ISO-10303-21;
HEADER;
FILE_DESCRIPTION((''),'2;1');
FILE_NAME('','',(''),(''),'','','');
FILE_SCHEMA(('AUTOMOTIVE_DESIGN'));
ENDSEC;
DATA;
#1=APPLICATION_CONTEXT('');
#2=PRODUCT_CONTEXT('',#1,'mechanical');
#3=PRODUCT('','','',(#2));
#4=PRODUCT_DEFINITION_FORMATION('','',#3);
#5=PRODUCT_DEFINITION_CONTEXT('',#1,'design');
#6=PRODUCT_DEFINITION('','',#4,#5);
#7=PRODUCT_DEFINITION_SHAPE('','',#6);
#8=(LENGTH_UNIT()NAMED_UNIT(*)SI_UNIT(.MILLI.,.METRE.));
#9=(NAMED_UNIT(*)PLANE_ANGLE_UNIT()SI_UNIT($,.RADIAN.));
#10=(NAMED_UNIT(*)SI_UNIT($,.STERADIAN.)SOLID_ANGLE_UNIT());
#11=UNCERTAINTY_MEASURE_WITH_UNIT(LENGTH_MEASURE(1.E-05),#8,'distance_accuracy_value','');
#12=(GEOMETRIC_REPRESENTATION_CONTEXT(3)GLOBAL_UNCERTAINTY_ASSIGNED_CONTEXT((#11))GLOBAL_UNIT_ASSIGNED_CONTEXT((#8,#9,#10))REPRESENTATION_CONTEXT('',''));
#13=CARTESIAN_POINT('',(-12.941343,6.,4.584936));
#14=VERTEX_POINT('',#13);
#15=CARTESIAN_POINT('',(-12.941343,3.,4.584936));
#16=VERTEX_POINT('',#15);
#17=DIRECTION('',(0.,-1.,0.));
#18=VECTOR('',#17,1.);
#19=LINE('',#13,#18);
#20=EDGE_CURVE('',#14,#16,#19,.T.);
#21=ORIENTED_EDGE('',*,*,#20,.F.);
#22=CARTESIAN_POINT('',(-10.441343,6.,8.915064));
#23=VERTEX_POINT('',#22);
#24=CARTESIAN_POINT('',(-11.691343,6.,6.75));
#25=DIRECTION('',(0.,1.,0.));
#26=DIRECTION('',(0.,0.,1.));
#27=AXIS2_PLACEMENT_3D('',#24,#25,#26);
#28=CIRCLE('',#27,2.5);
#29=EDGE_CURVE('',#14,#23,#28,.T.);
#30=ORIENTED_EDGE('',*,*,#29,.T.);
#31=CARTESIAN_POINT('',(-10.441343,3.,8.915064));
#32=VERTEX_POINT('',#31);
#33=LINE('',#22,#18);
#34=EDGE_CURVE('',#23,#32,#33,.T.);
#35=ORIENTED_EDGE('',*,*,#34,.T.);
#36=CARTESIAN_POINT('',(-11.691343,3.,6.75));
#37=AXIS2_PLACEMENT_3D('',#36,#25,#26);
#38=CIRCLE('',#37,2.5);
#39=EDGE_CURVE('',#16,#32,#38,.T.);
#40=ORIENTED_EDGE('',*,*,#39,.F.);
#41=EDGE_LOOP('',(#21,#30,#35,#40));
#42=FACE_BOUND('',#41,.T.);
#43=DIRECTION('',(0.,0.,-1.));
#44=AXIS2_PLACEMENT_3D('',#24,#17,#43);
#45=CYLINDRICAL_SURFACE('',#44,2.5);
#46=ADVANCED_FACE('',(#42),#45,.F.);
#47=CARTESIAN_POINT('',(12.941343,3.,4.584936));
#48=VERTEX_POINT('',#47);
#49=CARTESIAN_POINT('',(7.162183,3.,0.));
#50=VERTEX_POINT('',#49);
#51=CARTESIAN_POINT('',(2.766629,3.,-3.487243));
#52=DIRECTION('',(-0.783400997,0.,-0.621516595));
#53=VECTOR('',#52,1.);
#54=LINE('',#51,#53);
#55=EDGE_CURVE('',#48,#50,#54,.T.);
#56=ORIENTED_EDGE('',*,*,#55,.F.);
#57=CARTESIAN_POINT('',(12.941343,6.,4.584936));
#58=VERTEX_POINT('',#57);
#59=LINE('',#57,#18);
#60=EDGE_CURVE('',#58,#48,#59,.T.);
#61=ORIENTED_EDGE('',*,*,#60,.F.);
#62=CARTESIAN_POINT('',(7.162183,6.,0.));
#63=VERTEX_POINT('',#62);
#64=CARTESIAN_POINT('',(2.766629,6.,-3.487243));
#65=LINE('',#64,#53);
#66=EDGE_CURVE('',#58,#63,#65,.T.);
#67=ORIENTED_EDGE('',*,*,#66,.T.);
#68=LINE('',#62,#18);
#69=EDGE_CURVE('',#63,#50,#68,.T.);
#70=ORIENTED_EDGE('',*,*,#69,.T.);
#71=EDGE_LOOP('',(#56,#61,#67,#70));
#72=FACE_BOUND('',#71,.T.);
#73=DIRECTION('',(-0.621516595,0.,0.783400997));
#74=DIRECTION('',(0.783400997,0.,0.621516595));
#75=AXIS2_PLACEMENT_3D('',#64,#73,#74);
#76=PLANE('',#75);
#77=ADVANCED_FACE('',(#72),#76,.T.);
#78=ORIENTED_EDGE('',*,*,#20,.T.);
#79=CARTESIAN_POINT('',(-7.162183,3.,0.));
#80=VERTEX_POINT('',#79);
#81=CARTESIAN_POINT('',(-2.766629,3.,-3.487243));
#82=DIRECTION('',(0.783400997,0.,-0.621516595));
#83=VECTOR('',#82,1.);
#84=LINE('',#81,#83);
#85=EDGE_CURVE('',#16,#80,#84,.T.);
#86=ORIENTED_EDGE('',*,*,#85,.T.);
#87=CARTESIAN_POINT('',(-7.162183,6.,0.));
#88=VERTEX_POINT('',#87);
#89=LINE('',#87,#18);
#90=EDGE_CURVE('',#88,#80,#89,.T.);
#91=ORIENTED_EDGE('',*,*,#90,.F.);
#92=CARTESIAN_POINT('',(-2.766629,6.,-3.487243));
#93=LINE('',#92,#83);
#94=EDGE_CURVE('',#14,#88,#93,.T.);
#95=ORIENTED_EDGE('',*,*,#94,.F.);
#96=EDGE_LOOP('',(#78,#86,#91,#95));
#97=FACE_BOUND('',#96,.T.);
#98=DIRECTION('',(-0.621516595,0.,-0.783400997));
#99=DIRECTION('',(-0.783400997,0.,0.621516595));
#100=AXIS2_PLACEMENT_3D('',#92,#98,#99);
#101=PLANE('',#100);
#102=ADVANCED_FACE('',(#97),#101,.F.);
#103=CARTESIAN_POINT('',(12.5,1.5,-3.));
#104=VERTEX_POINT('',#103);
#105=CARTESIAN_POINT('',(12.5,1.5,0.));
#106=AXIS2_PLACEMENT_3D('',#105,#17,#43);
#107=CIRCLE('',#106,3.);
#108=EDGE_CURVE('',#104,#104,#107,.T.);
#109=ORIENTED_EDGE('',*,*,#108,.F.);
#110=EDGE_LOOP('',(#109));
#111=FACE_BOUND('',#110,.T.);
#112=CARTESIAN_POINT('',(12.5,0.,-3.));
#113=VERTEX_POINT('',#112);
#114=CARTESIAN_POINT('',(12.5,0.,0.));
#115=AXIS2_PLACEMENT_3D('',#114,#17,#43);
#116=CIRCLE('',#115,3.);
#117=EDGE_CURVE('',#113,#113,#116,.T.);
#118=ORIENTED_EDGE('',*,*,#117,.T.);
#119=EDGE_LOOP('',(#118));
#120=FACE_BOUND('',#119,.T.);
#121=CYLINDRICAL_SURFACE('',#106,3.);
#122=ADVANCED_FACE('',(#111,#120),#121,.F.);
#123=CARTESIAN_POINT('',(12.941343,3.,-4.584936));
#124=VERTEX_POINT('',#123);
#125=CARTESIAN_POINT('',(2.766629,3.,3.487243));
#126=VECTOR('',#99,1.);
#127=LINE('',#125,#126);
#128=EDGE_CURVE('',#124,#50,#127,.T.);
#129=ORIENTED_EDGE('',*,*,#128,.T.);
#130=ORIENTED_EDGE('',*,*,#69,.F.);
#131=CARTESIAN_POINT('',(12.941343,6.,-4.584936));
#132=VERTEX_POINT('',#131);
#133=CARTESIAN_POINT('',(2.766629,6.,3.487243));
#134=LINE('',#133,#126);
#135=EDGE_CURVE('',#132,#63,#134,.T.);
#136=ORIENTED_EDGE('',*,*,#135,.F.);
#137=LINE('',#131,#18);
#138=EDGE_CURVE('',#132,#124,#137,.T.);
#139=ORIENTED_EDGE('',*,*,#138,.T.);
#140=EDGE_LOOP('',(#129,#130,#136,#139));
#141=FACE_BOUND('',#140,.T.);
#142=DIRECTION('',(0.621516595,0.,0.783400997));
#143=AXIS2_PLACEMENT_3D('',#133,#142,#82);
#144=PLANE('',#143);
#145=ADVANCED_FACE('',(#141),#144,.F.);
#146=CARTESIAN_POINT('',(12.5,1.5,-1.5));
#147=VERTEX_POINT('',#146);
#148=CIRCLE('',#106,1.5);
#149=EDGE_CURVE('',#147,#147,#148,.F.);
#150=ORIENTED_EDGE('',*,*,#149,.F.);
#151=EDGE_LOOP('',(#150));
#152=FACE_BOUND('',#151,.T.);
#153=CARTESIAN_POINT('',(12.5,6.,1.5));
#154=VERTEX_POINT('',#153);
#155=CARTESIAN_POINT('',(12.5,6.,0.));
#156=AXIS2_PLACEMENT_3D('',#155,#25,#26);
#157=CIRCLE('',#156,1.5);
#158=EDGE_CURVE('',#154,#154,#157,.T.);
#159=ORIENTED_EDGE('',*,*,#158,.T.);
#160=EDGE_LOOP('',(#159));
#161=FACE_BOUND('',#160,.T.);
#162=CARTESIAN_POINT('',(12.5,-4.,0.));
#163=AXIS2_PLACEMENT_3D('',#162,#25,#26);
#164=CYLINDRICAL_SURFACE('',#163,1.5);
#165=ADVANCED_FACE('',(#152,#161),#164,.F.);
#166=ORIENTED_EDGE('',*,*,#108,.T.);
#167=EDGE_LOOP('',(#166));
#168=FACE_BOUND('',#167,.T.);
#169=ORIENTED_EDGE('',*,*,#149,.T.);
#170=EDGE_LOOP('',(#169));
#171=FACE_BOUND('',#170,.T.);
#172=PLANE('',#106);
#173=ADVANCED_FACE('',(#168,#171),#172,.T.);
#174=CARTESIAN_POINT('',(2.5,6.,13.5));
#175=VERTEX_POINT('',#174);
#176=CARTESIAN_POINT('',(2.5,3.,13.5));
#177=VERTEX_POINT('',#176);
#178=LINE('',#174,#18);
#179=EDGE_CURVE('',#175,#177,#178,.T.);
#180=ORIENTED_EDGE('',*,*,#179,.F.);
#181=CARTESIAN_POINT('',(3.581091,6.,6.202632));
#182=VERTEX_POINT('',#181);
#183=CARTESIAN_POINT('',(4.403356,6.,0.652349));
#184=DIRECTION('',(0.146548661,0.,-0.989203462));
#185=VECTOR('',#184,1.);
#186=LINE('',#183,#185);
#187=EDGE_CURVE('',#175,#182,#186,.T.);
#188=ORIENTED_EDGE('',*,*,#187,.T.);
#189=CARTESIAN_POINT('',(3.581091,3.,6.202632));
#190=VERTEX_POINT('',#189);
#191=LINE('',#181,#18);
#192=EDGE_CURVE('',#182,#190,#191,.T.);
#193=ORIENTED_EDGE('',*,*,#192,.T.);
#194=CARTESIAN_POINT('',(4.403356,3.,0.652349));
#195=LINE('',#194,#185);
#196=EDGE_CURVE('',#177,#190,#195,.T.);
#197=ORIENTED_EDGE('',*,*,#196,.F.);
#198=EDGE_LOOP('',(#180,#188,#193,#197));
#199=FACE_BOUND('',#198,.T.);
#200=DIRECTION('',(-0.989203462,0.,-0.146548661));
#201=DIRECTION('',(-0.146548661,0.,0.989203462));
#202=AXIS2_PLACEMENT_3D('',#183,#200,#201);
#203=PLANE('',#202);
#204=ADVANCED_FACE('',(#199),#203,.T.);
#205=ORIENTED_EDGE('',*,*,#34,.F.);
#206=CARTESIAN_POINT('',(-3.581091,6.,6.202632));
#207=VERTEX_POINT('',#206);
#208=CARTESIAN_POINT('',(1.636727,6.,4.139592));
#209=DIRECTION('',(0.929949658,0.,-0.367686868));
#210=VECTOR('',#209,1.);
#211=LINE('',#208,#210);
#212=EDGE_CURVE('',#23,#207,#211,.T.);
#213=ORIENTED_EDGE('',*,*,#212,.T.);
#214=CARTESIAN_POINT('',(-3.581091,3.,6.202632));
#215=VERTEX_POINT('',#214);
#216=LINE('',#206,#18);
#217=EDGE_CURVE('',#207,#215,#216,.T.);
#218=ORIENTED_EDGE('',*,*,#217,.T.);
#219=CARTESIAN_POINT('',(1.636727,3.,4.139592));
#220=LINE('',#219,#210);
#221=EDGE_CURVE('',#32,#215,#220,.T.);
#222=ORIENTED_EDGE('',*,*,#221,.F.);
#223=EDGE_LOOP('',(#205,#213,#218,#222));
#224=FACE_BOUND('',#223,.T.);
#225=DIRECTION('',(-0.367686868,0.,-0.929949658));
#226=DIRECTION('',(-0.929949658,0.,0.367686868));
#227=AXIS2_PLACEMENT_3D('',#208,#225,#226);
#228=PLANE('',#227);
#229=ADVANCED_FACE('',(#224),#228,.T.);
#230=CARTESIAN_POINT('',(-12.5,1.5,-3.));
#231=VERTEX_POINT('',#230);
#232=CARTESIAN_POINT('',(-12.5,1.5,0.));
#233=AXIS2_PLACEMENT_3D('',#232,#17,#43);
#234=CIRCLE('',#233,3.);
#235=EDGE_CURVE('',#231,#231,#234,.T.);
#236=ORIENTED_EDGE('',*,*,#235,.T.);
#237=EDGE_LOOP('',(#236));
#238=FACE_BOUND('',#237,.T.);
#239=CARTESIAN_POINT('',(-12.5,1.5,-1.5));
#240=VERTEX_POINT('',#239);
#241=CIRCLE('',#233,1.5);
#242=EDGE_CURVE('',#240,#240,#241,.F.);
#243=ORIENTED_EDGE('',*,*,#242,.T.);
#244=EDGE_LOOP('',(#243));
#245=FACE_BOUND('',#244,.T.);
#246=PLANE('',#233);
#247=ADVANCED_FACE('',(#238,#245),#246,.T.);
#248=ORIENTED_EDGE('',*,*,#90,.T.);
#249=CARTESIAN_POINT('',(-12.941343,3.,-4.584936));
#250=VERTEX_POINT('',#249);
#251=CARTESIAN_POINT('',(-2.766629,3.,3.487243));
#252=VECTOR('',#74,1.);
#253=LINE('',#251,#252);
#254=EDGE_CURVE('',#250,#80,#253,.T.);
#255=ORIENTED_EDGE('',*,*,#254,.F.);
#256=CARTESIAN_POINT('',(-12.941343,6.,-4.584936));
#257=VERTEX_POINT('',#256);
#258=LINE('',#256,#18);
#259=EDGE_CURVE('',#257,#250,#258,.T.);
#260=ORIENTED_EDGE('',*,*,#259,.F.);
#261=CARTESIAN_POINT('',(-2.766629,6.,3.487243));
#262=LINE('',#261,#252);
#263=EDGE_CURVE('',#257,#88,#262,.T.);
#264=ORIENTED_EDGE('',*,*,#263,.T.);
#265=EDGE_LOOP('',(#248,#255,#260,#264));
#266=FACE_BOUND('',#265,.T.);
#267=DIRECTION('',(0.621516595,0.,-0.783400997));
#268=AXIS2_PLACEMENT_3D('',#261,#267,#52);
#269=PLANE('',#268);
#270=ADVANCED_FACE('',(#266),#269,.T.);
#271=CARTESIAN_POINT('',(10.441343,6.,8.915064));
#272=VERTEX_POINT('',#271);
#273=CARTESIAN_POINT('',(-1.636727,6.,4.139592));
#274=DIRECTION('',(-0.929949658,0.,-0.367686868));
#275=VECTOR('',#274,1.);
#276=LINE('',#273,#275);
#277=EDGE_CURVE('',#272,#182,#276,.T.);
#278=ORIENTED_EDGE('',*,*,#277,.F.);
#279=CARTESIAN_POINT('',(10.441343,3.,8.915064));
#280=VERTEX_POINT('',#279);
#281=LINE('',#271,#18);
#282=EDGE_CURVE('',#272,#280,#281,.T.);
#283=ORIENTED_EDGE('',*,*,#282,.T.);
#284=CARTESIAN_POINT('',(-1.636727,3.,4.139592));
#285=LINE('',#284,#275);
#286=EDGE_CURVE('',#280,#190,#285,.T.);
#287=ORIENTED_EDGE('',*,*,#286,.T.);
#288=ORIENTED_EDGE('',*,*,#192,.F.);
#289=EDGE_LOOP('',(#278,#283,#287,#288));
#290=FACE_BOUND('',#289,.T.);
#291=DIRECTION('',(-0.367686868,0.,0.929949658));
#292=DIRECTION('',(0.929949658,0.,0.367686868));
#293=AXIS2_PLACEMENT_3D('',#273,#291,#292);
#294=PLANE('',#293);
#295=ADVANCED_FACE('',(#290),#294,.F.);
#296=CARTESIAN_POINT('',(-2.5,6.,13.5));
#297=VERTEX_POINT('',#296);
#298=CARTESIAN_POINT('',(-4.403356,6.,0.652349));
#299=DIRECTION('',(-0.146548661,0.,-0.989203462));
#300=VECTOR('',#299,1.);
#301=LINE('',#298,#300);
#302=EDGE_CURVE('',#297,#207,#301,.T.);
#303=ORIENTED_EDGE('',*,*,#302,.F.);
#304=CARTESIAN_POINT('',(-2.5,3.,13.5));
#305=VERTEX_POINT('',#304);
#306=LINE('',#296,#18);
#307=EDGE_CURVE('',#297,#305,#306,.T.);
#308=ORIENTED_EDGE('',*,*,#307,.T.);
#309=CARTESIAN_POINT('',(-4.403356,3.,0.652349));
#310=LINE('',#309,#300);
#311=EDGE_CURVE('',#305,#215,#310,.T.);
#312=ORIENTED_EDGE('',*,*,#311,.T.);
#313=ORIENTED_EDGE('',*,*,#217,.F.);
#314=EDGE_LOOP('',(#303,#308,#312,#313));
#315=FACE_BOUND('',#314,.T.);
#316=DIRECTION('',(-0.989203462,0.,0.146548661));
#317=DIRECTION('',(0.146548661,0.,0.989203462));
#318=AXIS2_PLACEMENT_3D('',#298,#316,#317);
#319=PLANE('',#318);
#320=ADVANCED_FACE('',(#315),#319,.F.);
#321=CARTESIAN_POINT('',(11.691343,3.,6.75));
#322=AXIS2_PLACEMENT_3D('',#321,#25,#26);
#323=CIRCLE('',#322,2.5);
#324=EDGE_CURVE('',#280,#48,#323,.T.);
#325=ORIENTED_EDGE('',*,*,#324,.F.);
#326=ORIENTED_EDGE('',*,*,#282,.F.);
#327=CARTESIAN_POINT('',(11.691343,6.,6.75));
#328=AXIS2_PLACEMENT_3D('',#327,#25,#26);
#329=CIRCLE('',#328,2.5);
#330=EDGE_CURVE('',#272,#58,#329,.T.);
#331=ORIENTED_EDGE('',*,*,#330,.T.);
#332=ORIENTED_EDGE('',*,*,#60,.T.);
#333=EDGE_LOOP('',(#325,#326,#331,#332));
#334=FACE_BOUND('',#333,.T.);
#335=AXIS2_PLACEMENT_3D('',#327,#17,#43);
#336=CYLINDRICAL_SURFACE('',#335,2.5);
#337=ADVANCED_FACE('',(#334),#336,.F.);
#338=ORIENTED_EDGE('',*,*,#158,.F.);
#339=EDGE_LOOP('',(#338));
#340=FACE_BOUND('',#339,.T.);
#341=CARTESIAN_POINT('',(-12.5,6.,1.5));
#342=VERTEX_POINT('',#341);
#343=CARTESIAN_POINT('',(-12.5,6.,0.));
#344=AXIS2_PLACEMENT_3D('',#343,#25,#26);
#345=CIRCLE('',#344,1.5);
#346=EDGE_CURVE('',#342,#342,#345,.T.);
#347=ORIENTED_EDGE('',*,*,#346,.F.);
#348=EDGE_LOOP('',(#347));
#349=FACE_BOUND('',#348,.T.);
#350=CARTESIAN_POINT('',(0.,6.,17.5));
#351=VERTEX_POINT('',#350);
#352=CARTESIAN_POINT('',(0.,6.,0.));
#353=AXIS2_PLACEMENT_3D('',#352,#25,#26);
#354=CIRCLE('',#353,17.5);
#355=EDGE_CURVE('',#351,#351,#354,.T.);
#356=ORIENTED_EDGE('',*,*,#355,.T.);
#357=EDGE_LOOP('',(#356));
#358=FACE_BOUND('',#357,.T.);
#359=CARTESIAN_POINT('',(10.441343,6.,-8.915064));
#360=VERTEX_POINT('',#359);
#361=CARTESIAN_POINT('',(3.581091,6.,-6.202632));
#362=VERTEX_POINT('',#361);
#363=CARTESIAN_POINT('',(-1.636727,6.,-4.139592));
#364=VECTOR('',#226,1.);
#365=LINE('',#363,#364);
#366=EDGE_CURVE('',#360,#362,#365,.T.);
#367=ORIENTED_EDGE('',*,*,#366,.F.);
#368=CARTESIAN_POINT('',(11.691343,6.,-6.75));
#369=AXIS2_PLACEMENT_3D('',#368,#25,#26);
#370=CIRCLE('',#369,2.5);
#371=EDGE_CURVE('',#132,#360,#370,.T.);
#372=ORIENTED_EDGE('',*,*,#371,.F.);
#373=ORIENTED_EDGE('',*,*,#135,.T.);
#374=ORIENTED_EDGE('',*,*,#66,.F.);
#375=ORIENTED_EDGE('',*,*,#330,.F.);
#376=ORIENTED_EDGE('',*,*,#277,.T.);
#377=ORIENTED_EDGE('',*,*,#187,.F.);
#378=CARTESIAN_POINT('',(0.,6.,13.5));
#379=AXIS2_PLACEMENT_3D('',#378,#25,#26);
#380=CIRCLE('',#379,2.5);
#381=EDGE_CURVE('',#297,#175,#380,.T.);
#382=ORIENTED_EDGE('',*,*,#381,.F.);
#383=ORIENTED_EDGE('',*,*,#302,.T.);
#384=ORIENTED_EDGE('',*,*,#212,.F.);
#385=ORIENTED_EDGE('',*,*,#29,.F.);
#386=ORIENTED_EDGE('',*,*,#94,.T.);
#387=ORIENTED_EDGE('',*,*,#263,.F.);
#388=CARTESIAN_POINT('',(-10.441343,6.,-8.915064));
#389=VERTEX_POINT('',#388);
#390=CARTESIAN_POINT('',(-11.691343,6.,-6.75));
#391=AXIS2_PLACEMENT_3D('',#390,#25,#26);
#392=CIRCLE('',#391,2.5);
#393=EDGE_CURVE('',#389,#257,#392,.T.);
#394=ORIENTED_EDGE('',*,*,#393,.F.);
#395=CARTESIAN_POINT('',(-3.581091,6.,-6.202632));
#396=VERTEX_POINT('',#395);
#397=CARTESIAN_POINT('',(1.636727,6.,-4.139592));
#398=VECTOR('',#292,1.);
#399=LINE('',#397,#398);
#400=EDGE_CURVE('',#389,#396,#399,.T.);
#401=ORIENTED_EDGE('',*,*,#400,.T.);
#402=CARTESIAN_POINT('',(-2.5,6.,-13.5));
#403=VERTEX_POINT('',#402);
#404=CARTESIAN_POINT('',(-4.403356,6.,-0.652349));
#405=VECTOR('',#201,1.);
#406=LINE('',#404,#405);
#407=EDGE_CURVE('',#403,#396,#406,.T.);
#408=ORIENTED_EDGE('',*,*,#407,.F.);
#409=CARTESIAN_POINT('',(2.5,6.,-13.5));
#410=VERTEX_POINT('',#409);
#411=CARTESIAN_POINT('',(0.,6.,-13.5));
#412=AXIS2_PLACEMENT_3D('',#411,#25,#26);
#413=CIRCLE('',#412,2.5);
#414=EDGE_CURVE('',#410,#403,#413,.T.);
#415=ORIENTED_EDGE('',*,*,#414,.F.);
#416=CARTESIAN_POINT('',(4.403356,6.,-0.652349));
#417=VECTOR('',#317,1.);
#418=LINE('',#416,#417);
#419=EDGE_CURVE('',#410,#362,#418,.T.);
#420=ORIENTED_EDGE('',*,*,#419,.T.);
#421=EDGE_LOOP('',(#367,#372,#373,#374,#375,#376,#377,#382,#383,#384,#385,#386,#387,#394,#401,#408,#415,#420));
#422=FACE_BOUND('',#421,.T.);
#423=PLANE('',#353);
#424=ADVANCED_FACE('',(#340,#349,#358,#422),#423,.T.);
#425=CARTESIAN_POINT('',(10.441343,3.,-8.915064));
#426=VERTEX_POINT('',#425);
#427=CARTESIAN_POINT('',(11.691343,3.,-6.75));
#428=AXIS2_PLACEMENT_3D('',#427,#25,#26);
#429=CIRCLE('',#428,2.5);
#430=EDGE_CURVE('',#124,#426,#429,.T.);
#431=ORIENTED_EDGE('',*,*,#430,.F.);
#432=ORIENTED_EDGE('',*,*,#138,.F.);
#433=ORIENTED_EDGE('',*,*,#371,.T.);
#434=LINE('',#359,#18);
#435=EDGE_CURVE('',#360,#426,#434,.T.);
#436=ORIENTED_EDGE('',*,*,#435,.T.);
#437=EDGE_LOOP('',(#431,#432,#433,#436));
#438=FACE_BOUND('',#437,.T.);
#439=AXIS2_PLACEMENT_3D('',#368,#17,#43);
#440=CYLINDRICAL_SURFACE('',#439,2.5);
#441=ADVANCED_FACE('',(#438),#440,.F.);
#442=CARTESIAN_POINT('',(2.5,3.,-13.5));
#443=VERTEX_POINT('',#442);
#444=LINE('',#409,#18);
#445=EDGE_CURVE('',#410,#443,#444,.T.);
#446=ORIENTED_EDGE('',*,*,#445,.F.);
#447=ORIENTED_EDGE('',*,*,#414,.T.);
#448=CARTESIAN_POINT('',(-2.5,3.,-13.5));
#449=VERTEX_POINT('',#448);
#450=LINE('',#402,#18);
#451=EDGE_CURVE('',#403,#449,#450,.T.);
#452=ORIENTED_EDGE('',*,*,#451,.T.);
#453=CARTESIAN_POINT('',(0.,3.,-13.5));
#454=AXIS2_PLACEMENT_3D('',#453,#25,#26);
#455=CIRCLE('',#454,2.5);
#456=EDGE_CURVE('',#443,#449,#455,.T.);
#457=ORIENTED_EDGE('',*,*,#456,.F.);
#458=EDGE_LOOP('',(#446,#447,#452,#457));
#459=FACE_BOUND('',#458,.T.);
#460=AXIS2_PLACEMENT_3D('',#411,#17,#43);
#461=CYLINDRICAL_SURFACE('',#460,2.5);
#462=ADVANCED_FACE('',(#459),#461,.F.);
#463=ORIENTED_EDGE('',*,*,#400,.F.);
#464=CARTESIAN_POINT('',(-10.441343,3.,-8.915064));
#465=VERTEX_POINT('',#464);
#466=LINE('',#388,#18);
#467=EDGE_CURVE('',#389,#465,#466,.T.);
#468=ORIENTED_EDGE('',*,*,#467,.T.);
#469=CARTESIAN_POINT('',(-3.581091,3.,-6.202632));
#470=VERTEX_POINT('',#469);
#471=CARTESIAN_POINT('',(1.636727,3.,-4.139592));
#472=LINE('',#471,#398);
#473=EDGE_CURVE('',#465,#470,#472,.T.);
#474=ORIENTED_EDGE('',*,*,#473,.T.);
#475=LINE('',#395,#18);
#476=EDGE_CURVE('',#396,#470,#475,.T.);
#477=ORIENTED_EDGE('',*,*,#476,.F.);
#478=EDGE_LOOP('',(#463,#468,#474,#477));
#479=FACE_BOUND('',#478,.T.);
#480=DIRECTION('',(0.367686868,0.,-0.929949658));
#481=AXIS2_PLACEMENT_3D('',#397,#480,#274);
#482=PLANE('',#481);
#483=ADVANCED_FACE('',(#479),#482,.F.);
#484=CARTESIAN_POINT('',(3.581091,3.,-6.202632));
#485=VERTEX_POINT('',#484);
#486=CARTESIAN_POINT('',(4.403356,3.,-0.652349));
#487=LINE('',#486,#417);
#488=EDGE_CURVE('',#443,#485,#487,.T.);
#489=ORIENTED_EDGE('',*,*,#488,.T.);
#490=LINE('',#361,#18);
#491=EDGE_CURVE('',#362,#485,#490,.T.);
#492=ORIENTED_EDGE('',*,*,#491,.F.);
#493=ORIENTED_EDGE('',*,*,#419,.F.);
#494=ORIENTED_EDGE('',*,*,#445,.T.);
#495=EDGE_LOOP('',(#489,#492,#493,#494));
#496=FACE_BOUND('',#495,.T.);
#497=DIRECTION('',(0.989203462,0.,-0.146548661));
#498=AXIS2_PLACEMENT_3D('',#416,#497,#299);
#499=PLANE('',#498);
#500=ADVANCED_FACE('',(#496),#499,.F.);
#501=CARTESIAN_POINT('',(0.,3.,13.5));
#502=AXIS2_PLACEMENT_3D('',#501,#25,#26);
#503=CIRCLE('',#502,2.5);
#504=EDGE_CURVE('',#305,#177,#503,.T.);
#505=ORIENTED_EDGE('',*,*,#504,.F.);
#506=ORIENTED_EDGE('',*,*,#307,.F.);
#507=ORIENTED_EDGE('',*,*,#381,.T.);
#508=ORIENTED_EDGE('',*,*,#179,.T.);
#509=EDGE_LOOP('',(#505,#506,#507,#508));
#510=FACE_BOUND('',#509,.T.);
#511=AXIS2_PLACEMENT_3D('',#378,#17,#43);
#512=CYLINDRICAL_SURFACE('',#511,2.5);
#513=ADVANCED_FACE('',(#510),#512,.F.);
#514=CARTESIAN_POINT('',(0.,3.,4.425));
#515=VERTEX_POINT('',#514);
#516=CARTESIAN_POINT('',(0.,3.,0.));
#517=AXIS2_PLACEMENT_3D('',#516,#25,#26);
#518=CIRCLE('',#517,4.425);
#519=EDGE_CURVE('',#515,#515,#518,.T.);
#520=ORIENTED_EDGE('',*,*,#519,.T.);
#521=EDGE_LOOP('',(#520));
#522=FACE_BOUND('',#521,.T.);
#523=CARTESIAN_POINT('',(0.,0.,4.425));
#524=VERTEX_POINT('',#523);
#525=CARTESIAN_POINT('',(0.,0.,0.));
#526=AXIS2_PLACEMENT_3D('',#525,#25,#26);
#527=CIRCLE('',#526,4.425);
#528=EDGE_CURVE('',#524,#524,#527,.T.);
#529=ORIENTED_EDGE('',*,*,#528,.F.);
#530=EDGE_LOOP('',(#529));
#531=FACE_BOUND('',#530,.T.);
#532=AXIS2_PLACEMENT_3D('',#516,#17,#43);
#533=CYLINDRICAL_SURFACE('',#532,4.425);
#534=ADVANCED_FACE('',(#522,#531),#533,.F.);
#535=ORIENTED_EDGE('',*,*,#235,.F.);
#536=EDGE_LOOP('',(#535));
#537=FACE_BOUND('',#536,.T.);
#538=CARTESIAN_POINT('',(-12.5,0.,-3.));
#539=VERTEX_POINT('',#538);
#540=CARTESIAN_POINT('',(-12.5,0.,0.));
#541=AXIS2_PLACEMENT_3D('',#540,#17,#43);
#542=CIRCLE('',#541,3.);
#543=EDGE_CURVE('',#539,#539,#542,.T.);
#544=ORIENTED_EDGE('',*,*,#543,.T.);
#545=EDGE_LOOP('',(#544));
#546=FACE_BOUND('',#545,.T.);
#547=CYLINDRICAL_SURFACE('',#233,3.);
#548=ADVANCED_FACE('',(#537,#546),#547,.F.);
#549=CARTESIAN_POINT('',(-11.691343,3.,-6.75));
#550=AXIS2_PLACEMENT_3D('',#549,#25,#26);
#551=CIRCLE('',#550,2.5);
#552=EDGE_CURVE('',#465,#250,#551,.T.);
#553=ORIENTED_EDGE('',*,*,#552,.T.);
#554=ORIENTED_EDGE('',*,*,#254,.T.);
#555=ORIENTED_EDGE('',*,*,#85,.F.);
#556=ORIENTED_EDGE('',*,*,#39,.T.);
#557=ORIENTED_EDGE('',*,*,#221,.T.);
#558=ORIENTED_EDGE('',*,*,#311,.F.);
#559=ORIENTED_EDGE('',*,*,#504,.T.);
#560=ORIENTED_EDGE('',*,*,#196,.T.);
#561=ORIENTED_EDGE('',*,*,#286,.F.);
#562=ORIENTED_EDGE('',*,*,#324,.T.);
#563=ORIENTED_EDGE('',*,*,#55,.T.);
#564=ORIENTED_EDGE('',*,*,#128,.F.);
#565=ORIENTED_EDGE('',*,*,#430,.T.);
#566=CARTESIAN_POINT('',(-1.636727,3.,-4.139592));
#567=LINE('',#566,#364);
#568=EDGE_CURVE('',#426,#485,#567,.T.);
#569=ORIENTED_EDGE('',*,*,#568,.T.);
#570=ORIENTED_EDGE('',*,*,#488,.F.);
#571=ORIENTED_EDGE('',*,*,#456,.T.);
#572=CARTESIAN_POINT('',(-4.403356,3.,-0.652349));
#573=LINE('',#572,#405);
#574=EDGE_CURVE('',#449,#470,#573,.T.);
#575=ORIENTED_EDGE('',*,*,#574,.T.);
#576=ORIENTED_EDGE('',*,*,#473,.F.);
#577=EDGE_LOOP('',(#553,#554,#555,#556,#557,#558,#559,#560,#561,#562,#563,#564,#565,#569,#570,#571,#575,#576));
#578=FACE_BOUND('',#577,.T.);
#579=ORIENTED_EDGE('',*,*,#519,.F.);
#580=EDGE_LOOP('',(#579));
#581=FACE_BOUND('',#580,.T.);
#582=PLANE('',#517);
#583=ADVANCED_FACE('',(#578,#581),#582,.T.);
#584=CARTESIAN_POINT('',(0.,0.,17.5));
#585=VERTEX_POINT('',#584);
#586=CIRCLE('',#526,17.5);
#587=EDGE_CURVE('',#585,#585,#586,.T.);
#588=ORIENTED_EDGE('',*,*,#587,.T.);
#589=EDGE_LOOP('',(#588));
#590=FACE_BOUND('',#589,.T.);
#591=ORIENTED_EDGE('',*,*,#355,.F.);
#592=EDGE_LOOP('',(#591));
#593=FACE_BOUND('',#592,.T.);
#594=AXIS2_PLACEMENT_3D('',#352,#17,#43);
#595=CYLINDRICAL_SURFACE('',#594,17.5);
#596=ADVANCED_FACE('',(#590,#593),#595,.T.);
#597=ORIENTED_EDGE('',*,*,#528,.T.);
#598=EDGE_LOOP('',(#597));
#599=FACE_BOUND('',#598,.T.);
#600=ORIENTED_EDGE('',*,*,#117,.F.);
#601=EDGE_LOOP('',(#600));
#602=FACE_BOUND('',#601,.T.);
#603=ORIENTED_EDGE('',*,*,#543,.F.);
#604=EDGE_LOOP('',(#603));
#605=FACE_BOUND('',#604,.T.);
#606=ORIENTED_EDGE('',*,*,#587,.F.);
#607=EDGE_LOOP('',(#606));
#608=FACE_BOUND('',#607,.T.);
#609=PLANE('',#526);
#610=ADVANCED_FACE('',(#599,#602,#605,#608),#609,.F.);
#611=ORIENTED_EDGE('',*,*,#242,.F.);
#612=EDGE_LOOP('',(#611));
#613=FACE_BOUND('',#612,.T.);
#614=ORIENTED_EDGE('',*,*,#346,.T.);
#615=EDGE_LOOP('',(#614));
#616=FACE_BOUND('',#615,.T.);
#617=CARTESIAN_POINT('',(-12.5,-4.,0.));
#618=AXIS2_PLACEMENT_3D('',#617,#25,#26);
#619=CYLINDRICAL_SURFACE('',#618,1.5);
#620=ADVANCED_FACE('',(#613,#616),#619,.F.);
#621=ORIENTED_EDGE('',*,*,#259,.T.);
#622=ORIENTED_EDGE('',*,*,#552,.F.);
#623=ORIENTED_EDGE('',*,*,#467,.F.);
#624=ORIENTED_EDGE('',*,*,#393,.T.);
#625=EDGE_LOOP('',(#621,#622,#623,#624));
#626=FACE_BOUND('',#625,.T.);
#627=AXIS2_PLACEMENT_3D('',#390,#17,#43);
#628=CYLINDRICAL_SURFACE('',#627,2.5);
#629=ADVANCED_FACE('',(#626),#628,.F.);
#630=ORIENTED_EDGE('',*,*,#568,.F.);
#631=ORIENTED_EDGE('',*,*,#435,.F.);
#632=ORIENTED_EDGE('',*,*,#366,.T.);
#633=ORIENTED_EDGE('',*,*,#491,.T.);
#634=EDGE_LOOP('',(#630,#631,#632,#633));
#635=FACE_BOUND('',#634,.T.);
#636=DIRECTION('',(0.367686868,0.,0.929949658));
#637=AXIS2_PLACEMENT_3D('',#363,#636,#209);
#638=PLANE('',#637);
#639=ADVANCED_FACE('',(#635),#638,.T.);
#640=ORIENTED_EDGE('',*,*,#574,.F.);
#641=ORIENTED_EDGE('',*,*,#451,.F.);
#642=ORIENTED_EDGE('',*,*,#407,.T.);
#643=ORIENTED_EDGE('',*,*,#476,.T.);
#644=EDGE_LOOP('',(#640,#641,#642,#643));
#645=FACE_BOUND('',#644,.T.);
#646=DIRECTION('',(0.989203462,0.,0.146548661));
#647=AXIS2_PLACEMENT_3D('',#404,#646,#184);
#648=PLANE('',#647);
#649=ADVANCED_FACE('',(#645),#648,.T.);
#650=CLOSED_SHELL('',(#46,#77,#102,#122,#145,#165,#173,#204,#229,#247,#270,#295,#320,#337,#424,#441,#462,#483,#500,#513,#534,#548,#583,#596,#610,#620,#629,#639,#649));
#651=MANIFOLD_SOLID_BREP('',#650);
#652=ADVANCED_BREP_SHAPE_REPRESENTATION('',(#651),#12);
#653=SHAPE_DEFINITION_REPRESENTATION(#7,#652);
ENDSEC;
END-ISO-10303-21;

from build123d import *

# Parameters (mm, degrees)
SKETCH1_R           = 17.5
BOSS_EXTRUDE3_DEPTH = 6
SKETCH1_11_R        = 4.425
BOSS_EXTRUDE5_DEPTH = 3
SKETCH2_R           = 1.5
CUT_EXTRUDE1_DEPTH  = 10
SKETCH3_R           = 3
CUT_EXTRUDE2_DEPTH  = 1.5


with BuildPart() as part:
    # Sketch1 → Boss-Extrude3 (new body)
    with BuildSketch(Plane(origin=(0, 0, 0), x_dir=(1, 0, 0), z_dir=(0, 1, 0))):
        Circle(SKETCH1_R)
        with BuildLine():
            ThreePointArc((-2.5, 13.5), (-1.767766953, 15.267766953), (0, 16))
            ThreePointArc((0, 16), (1.767766953, 15.267766953), (2.5, 13.5))
            Line((2.5, 13.5), (3.581091494, 6.202632414))
            Line((3.581091494, 6.202632414), (10.441342951, 8.915063509))
            ThreePointArc((10.441342951, 8.915063509), (12.338390564, 9.164814566), (13.856406461, 8))
            ThreePointArc((13.856406461, 8), (14.106157517, 7.397047613), (14.191342951, 6.75))
            ThreePointArc((14.191342951, 6.75), (13.856406461, 5.5), (12.941342951, 4.584936491))
            Line((12.941342951, 4.584936491), (7.162182988, 0))
            Line((7.162182988, 0), (12.941342951, -4.584936491))
            ThreePointArc((12.941342951, -4.584936491), (13.856406461, -5.5), (14.191342951, -6.75))
            ThreePointArc((14.191342951, -6.75), (14.106157517, -7.397047613), (13.856406461, -8))
            ThreePointArc((13.856406461, -8), (12.338390564, -9.164814566), (10.441342951, -8.915063509))
            Line((10.441342951, -8.915063509), (3.581091494, -6.202632414))
            Line((3.581091494, -6.202632414), (2.5, -13.5))
            ThreePointArc((2.5, -13.5), (1.767766953, -15.267766953), (0, -16))
            ThreePointArc((0, -16), (-1.767766953, -15.267766953), (-2.5, -13.5))
            Line((-2.5, -13.5), (-3.581091494, -6.202632414))
            Line((-3.581091494, -6.202632414), (-10.441342951, -8.915063509))
            ThreePointArc((-10.441342951, -8.915063509), (-12.338390564, -9.164814566), (-13.856406461, -8))
            ThreePointArc((-13.856406461, -8), (-14.106157517, -6.102952387), (-12.941342951, -4.584936491))
            Line((-12.941342951, -4.584936491), (-7.162182988, 0))
            Line((-7.162182988, 0), (-12.941342951, 4.584936491))
            ThreePointArc((-12.941342951, 4.584936491), (-14.106157517, 6.102952387), (-13.856406461, 8))
            ThreePointArc((-13.856406461, 8), (-12.338390564, 9.164814566), (-10.441342951, 8.915063509))
            Line((-10.441342951, 8.915063509), (-3.581091494, 6.202632414))
            Line((-3.581091494, 6.202632414), (-2.5, 13.5))
        make_face(mode=Mode.SUBTRACT)
    extrude(amount=BOSS_EXTRUDE3_DEPTH)

    # Sketch1<11> → Boss-Extrude5 (add)
    with BuildSketch(Plane(origin=(0, 0, 0), x_dir=(1, 0, 0), z_dir=(0, 1, 0))):
        with BuildLine():
            Line((-2.5, 13.5), (-3.581091494, 6.202632414))
            Line((-3.581091494, 6.202632414), (-10.441342951, 8.915063509))
            ThreePointArc((-10.441342951, 8.915063509), (-13.856406461, 8), (-12.941342951, 4.584936491))
            Line((-12.941342951, 4.584936491), (-7.162182988, 0))
            Line((-7.162182988, 0), (-12.941342951, -4.584936491))
            ThreePointArc((-12.941342951, -4.584936491), (-13.856406461, -8), (-10.441342951, -8.915063509))
            Line((-10.441342951, -8.915063509), (-3.581091494, -6.202632414))
            Line((-3.581091494, -6.202632414), (-2.5, -13.5))
            ThreePointArc((-2.5, -13.5), (0, -16), (2.5, -13.5))
            Line((2.5, -13.5), (3.581091494, -6.202632414))
            Line((3.581091494, -6.202632414), (10.441342951, -8.915063509))
            ThreePointArc((10.441342951, -8.915063509), (13.856406461, -8), (12.941342951, -4.584936491))
            Line((12.941342951, -4.584936491), (7.162182988, 0))
            Line((7.162182988, 0), (12.941342951, 4.584936491))
            ThreePointArc((12.941342951, 4.584936491), (13.856406461, 8), (10.441342951, 8.915063509))
            Line((10.441342951, 8.915063509), (3.581091494, 6.202632414))
            Line((3.581091494, 6.202632414), (2.5, 13.5))
            ThreePointArc((2.5, 13.5), (0, 16), (-2.5, 13.5))
        make_face()
        Circle(SKETCH1_11_R, mode=Mode.SUBTRACT)
    extrude(amount=BOSS_EXTRUDE5_DEPTH)

    # Sketch2 → Cut-Extrude1 (cut)
    with BuildSketch(Plane(origin=(0, 6, 0), x_dir=(1, 0, 0), z_dir=(0, 1, 0))):
        with Locations((-12.5, 0)):
            Circle(SKETCH2_R)
        with Locations((12.5, 0)):
            Circle(SKETCH2_R)
    extrude(amount=-CUT_EXTRUDE1_DEPTH, mode=Mode.SUBTRACT)

    # Sketch3 → Cut-Extrude2 (cut)
    with BuildSketch(Plane.XZ):
        with Locations((-12.5, 0)):
            Circle(SKETCH3_R)
        with Locations((12.5, 0)):
            Circle(SKETCH3_R)
    extrude(amount=-CUT_EXTRUDE2_DEPTH, mode=Mode.SUBTRACT)


solid = part.part
